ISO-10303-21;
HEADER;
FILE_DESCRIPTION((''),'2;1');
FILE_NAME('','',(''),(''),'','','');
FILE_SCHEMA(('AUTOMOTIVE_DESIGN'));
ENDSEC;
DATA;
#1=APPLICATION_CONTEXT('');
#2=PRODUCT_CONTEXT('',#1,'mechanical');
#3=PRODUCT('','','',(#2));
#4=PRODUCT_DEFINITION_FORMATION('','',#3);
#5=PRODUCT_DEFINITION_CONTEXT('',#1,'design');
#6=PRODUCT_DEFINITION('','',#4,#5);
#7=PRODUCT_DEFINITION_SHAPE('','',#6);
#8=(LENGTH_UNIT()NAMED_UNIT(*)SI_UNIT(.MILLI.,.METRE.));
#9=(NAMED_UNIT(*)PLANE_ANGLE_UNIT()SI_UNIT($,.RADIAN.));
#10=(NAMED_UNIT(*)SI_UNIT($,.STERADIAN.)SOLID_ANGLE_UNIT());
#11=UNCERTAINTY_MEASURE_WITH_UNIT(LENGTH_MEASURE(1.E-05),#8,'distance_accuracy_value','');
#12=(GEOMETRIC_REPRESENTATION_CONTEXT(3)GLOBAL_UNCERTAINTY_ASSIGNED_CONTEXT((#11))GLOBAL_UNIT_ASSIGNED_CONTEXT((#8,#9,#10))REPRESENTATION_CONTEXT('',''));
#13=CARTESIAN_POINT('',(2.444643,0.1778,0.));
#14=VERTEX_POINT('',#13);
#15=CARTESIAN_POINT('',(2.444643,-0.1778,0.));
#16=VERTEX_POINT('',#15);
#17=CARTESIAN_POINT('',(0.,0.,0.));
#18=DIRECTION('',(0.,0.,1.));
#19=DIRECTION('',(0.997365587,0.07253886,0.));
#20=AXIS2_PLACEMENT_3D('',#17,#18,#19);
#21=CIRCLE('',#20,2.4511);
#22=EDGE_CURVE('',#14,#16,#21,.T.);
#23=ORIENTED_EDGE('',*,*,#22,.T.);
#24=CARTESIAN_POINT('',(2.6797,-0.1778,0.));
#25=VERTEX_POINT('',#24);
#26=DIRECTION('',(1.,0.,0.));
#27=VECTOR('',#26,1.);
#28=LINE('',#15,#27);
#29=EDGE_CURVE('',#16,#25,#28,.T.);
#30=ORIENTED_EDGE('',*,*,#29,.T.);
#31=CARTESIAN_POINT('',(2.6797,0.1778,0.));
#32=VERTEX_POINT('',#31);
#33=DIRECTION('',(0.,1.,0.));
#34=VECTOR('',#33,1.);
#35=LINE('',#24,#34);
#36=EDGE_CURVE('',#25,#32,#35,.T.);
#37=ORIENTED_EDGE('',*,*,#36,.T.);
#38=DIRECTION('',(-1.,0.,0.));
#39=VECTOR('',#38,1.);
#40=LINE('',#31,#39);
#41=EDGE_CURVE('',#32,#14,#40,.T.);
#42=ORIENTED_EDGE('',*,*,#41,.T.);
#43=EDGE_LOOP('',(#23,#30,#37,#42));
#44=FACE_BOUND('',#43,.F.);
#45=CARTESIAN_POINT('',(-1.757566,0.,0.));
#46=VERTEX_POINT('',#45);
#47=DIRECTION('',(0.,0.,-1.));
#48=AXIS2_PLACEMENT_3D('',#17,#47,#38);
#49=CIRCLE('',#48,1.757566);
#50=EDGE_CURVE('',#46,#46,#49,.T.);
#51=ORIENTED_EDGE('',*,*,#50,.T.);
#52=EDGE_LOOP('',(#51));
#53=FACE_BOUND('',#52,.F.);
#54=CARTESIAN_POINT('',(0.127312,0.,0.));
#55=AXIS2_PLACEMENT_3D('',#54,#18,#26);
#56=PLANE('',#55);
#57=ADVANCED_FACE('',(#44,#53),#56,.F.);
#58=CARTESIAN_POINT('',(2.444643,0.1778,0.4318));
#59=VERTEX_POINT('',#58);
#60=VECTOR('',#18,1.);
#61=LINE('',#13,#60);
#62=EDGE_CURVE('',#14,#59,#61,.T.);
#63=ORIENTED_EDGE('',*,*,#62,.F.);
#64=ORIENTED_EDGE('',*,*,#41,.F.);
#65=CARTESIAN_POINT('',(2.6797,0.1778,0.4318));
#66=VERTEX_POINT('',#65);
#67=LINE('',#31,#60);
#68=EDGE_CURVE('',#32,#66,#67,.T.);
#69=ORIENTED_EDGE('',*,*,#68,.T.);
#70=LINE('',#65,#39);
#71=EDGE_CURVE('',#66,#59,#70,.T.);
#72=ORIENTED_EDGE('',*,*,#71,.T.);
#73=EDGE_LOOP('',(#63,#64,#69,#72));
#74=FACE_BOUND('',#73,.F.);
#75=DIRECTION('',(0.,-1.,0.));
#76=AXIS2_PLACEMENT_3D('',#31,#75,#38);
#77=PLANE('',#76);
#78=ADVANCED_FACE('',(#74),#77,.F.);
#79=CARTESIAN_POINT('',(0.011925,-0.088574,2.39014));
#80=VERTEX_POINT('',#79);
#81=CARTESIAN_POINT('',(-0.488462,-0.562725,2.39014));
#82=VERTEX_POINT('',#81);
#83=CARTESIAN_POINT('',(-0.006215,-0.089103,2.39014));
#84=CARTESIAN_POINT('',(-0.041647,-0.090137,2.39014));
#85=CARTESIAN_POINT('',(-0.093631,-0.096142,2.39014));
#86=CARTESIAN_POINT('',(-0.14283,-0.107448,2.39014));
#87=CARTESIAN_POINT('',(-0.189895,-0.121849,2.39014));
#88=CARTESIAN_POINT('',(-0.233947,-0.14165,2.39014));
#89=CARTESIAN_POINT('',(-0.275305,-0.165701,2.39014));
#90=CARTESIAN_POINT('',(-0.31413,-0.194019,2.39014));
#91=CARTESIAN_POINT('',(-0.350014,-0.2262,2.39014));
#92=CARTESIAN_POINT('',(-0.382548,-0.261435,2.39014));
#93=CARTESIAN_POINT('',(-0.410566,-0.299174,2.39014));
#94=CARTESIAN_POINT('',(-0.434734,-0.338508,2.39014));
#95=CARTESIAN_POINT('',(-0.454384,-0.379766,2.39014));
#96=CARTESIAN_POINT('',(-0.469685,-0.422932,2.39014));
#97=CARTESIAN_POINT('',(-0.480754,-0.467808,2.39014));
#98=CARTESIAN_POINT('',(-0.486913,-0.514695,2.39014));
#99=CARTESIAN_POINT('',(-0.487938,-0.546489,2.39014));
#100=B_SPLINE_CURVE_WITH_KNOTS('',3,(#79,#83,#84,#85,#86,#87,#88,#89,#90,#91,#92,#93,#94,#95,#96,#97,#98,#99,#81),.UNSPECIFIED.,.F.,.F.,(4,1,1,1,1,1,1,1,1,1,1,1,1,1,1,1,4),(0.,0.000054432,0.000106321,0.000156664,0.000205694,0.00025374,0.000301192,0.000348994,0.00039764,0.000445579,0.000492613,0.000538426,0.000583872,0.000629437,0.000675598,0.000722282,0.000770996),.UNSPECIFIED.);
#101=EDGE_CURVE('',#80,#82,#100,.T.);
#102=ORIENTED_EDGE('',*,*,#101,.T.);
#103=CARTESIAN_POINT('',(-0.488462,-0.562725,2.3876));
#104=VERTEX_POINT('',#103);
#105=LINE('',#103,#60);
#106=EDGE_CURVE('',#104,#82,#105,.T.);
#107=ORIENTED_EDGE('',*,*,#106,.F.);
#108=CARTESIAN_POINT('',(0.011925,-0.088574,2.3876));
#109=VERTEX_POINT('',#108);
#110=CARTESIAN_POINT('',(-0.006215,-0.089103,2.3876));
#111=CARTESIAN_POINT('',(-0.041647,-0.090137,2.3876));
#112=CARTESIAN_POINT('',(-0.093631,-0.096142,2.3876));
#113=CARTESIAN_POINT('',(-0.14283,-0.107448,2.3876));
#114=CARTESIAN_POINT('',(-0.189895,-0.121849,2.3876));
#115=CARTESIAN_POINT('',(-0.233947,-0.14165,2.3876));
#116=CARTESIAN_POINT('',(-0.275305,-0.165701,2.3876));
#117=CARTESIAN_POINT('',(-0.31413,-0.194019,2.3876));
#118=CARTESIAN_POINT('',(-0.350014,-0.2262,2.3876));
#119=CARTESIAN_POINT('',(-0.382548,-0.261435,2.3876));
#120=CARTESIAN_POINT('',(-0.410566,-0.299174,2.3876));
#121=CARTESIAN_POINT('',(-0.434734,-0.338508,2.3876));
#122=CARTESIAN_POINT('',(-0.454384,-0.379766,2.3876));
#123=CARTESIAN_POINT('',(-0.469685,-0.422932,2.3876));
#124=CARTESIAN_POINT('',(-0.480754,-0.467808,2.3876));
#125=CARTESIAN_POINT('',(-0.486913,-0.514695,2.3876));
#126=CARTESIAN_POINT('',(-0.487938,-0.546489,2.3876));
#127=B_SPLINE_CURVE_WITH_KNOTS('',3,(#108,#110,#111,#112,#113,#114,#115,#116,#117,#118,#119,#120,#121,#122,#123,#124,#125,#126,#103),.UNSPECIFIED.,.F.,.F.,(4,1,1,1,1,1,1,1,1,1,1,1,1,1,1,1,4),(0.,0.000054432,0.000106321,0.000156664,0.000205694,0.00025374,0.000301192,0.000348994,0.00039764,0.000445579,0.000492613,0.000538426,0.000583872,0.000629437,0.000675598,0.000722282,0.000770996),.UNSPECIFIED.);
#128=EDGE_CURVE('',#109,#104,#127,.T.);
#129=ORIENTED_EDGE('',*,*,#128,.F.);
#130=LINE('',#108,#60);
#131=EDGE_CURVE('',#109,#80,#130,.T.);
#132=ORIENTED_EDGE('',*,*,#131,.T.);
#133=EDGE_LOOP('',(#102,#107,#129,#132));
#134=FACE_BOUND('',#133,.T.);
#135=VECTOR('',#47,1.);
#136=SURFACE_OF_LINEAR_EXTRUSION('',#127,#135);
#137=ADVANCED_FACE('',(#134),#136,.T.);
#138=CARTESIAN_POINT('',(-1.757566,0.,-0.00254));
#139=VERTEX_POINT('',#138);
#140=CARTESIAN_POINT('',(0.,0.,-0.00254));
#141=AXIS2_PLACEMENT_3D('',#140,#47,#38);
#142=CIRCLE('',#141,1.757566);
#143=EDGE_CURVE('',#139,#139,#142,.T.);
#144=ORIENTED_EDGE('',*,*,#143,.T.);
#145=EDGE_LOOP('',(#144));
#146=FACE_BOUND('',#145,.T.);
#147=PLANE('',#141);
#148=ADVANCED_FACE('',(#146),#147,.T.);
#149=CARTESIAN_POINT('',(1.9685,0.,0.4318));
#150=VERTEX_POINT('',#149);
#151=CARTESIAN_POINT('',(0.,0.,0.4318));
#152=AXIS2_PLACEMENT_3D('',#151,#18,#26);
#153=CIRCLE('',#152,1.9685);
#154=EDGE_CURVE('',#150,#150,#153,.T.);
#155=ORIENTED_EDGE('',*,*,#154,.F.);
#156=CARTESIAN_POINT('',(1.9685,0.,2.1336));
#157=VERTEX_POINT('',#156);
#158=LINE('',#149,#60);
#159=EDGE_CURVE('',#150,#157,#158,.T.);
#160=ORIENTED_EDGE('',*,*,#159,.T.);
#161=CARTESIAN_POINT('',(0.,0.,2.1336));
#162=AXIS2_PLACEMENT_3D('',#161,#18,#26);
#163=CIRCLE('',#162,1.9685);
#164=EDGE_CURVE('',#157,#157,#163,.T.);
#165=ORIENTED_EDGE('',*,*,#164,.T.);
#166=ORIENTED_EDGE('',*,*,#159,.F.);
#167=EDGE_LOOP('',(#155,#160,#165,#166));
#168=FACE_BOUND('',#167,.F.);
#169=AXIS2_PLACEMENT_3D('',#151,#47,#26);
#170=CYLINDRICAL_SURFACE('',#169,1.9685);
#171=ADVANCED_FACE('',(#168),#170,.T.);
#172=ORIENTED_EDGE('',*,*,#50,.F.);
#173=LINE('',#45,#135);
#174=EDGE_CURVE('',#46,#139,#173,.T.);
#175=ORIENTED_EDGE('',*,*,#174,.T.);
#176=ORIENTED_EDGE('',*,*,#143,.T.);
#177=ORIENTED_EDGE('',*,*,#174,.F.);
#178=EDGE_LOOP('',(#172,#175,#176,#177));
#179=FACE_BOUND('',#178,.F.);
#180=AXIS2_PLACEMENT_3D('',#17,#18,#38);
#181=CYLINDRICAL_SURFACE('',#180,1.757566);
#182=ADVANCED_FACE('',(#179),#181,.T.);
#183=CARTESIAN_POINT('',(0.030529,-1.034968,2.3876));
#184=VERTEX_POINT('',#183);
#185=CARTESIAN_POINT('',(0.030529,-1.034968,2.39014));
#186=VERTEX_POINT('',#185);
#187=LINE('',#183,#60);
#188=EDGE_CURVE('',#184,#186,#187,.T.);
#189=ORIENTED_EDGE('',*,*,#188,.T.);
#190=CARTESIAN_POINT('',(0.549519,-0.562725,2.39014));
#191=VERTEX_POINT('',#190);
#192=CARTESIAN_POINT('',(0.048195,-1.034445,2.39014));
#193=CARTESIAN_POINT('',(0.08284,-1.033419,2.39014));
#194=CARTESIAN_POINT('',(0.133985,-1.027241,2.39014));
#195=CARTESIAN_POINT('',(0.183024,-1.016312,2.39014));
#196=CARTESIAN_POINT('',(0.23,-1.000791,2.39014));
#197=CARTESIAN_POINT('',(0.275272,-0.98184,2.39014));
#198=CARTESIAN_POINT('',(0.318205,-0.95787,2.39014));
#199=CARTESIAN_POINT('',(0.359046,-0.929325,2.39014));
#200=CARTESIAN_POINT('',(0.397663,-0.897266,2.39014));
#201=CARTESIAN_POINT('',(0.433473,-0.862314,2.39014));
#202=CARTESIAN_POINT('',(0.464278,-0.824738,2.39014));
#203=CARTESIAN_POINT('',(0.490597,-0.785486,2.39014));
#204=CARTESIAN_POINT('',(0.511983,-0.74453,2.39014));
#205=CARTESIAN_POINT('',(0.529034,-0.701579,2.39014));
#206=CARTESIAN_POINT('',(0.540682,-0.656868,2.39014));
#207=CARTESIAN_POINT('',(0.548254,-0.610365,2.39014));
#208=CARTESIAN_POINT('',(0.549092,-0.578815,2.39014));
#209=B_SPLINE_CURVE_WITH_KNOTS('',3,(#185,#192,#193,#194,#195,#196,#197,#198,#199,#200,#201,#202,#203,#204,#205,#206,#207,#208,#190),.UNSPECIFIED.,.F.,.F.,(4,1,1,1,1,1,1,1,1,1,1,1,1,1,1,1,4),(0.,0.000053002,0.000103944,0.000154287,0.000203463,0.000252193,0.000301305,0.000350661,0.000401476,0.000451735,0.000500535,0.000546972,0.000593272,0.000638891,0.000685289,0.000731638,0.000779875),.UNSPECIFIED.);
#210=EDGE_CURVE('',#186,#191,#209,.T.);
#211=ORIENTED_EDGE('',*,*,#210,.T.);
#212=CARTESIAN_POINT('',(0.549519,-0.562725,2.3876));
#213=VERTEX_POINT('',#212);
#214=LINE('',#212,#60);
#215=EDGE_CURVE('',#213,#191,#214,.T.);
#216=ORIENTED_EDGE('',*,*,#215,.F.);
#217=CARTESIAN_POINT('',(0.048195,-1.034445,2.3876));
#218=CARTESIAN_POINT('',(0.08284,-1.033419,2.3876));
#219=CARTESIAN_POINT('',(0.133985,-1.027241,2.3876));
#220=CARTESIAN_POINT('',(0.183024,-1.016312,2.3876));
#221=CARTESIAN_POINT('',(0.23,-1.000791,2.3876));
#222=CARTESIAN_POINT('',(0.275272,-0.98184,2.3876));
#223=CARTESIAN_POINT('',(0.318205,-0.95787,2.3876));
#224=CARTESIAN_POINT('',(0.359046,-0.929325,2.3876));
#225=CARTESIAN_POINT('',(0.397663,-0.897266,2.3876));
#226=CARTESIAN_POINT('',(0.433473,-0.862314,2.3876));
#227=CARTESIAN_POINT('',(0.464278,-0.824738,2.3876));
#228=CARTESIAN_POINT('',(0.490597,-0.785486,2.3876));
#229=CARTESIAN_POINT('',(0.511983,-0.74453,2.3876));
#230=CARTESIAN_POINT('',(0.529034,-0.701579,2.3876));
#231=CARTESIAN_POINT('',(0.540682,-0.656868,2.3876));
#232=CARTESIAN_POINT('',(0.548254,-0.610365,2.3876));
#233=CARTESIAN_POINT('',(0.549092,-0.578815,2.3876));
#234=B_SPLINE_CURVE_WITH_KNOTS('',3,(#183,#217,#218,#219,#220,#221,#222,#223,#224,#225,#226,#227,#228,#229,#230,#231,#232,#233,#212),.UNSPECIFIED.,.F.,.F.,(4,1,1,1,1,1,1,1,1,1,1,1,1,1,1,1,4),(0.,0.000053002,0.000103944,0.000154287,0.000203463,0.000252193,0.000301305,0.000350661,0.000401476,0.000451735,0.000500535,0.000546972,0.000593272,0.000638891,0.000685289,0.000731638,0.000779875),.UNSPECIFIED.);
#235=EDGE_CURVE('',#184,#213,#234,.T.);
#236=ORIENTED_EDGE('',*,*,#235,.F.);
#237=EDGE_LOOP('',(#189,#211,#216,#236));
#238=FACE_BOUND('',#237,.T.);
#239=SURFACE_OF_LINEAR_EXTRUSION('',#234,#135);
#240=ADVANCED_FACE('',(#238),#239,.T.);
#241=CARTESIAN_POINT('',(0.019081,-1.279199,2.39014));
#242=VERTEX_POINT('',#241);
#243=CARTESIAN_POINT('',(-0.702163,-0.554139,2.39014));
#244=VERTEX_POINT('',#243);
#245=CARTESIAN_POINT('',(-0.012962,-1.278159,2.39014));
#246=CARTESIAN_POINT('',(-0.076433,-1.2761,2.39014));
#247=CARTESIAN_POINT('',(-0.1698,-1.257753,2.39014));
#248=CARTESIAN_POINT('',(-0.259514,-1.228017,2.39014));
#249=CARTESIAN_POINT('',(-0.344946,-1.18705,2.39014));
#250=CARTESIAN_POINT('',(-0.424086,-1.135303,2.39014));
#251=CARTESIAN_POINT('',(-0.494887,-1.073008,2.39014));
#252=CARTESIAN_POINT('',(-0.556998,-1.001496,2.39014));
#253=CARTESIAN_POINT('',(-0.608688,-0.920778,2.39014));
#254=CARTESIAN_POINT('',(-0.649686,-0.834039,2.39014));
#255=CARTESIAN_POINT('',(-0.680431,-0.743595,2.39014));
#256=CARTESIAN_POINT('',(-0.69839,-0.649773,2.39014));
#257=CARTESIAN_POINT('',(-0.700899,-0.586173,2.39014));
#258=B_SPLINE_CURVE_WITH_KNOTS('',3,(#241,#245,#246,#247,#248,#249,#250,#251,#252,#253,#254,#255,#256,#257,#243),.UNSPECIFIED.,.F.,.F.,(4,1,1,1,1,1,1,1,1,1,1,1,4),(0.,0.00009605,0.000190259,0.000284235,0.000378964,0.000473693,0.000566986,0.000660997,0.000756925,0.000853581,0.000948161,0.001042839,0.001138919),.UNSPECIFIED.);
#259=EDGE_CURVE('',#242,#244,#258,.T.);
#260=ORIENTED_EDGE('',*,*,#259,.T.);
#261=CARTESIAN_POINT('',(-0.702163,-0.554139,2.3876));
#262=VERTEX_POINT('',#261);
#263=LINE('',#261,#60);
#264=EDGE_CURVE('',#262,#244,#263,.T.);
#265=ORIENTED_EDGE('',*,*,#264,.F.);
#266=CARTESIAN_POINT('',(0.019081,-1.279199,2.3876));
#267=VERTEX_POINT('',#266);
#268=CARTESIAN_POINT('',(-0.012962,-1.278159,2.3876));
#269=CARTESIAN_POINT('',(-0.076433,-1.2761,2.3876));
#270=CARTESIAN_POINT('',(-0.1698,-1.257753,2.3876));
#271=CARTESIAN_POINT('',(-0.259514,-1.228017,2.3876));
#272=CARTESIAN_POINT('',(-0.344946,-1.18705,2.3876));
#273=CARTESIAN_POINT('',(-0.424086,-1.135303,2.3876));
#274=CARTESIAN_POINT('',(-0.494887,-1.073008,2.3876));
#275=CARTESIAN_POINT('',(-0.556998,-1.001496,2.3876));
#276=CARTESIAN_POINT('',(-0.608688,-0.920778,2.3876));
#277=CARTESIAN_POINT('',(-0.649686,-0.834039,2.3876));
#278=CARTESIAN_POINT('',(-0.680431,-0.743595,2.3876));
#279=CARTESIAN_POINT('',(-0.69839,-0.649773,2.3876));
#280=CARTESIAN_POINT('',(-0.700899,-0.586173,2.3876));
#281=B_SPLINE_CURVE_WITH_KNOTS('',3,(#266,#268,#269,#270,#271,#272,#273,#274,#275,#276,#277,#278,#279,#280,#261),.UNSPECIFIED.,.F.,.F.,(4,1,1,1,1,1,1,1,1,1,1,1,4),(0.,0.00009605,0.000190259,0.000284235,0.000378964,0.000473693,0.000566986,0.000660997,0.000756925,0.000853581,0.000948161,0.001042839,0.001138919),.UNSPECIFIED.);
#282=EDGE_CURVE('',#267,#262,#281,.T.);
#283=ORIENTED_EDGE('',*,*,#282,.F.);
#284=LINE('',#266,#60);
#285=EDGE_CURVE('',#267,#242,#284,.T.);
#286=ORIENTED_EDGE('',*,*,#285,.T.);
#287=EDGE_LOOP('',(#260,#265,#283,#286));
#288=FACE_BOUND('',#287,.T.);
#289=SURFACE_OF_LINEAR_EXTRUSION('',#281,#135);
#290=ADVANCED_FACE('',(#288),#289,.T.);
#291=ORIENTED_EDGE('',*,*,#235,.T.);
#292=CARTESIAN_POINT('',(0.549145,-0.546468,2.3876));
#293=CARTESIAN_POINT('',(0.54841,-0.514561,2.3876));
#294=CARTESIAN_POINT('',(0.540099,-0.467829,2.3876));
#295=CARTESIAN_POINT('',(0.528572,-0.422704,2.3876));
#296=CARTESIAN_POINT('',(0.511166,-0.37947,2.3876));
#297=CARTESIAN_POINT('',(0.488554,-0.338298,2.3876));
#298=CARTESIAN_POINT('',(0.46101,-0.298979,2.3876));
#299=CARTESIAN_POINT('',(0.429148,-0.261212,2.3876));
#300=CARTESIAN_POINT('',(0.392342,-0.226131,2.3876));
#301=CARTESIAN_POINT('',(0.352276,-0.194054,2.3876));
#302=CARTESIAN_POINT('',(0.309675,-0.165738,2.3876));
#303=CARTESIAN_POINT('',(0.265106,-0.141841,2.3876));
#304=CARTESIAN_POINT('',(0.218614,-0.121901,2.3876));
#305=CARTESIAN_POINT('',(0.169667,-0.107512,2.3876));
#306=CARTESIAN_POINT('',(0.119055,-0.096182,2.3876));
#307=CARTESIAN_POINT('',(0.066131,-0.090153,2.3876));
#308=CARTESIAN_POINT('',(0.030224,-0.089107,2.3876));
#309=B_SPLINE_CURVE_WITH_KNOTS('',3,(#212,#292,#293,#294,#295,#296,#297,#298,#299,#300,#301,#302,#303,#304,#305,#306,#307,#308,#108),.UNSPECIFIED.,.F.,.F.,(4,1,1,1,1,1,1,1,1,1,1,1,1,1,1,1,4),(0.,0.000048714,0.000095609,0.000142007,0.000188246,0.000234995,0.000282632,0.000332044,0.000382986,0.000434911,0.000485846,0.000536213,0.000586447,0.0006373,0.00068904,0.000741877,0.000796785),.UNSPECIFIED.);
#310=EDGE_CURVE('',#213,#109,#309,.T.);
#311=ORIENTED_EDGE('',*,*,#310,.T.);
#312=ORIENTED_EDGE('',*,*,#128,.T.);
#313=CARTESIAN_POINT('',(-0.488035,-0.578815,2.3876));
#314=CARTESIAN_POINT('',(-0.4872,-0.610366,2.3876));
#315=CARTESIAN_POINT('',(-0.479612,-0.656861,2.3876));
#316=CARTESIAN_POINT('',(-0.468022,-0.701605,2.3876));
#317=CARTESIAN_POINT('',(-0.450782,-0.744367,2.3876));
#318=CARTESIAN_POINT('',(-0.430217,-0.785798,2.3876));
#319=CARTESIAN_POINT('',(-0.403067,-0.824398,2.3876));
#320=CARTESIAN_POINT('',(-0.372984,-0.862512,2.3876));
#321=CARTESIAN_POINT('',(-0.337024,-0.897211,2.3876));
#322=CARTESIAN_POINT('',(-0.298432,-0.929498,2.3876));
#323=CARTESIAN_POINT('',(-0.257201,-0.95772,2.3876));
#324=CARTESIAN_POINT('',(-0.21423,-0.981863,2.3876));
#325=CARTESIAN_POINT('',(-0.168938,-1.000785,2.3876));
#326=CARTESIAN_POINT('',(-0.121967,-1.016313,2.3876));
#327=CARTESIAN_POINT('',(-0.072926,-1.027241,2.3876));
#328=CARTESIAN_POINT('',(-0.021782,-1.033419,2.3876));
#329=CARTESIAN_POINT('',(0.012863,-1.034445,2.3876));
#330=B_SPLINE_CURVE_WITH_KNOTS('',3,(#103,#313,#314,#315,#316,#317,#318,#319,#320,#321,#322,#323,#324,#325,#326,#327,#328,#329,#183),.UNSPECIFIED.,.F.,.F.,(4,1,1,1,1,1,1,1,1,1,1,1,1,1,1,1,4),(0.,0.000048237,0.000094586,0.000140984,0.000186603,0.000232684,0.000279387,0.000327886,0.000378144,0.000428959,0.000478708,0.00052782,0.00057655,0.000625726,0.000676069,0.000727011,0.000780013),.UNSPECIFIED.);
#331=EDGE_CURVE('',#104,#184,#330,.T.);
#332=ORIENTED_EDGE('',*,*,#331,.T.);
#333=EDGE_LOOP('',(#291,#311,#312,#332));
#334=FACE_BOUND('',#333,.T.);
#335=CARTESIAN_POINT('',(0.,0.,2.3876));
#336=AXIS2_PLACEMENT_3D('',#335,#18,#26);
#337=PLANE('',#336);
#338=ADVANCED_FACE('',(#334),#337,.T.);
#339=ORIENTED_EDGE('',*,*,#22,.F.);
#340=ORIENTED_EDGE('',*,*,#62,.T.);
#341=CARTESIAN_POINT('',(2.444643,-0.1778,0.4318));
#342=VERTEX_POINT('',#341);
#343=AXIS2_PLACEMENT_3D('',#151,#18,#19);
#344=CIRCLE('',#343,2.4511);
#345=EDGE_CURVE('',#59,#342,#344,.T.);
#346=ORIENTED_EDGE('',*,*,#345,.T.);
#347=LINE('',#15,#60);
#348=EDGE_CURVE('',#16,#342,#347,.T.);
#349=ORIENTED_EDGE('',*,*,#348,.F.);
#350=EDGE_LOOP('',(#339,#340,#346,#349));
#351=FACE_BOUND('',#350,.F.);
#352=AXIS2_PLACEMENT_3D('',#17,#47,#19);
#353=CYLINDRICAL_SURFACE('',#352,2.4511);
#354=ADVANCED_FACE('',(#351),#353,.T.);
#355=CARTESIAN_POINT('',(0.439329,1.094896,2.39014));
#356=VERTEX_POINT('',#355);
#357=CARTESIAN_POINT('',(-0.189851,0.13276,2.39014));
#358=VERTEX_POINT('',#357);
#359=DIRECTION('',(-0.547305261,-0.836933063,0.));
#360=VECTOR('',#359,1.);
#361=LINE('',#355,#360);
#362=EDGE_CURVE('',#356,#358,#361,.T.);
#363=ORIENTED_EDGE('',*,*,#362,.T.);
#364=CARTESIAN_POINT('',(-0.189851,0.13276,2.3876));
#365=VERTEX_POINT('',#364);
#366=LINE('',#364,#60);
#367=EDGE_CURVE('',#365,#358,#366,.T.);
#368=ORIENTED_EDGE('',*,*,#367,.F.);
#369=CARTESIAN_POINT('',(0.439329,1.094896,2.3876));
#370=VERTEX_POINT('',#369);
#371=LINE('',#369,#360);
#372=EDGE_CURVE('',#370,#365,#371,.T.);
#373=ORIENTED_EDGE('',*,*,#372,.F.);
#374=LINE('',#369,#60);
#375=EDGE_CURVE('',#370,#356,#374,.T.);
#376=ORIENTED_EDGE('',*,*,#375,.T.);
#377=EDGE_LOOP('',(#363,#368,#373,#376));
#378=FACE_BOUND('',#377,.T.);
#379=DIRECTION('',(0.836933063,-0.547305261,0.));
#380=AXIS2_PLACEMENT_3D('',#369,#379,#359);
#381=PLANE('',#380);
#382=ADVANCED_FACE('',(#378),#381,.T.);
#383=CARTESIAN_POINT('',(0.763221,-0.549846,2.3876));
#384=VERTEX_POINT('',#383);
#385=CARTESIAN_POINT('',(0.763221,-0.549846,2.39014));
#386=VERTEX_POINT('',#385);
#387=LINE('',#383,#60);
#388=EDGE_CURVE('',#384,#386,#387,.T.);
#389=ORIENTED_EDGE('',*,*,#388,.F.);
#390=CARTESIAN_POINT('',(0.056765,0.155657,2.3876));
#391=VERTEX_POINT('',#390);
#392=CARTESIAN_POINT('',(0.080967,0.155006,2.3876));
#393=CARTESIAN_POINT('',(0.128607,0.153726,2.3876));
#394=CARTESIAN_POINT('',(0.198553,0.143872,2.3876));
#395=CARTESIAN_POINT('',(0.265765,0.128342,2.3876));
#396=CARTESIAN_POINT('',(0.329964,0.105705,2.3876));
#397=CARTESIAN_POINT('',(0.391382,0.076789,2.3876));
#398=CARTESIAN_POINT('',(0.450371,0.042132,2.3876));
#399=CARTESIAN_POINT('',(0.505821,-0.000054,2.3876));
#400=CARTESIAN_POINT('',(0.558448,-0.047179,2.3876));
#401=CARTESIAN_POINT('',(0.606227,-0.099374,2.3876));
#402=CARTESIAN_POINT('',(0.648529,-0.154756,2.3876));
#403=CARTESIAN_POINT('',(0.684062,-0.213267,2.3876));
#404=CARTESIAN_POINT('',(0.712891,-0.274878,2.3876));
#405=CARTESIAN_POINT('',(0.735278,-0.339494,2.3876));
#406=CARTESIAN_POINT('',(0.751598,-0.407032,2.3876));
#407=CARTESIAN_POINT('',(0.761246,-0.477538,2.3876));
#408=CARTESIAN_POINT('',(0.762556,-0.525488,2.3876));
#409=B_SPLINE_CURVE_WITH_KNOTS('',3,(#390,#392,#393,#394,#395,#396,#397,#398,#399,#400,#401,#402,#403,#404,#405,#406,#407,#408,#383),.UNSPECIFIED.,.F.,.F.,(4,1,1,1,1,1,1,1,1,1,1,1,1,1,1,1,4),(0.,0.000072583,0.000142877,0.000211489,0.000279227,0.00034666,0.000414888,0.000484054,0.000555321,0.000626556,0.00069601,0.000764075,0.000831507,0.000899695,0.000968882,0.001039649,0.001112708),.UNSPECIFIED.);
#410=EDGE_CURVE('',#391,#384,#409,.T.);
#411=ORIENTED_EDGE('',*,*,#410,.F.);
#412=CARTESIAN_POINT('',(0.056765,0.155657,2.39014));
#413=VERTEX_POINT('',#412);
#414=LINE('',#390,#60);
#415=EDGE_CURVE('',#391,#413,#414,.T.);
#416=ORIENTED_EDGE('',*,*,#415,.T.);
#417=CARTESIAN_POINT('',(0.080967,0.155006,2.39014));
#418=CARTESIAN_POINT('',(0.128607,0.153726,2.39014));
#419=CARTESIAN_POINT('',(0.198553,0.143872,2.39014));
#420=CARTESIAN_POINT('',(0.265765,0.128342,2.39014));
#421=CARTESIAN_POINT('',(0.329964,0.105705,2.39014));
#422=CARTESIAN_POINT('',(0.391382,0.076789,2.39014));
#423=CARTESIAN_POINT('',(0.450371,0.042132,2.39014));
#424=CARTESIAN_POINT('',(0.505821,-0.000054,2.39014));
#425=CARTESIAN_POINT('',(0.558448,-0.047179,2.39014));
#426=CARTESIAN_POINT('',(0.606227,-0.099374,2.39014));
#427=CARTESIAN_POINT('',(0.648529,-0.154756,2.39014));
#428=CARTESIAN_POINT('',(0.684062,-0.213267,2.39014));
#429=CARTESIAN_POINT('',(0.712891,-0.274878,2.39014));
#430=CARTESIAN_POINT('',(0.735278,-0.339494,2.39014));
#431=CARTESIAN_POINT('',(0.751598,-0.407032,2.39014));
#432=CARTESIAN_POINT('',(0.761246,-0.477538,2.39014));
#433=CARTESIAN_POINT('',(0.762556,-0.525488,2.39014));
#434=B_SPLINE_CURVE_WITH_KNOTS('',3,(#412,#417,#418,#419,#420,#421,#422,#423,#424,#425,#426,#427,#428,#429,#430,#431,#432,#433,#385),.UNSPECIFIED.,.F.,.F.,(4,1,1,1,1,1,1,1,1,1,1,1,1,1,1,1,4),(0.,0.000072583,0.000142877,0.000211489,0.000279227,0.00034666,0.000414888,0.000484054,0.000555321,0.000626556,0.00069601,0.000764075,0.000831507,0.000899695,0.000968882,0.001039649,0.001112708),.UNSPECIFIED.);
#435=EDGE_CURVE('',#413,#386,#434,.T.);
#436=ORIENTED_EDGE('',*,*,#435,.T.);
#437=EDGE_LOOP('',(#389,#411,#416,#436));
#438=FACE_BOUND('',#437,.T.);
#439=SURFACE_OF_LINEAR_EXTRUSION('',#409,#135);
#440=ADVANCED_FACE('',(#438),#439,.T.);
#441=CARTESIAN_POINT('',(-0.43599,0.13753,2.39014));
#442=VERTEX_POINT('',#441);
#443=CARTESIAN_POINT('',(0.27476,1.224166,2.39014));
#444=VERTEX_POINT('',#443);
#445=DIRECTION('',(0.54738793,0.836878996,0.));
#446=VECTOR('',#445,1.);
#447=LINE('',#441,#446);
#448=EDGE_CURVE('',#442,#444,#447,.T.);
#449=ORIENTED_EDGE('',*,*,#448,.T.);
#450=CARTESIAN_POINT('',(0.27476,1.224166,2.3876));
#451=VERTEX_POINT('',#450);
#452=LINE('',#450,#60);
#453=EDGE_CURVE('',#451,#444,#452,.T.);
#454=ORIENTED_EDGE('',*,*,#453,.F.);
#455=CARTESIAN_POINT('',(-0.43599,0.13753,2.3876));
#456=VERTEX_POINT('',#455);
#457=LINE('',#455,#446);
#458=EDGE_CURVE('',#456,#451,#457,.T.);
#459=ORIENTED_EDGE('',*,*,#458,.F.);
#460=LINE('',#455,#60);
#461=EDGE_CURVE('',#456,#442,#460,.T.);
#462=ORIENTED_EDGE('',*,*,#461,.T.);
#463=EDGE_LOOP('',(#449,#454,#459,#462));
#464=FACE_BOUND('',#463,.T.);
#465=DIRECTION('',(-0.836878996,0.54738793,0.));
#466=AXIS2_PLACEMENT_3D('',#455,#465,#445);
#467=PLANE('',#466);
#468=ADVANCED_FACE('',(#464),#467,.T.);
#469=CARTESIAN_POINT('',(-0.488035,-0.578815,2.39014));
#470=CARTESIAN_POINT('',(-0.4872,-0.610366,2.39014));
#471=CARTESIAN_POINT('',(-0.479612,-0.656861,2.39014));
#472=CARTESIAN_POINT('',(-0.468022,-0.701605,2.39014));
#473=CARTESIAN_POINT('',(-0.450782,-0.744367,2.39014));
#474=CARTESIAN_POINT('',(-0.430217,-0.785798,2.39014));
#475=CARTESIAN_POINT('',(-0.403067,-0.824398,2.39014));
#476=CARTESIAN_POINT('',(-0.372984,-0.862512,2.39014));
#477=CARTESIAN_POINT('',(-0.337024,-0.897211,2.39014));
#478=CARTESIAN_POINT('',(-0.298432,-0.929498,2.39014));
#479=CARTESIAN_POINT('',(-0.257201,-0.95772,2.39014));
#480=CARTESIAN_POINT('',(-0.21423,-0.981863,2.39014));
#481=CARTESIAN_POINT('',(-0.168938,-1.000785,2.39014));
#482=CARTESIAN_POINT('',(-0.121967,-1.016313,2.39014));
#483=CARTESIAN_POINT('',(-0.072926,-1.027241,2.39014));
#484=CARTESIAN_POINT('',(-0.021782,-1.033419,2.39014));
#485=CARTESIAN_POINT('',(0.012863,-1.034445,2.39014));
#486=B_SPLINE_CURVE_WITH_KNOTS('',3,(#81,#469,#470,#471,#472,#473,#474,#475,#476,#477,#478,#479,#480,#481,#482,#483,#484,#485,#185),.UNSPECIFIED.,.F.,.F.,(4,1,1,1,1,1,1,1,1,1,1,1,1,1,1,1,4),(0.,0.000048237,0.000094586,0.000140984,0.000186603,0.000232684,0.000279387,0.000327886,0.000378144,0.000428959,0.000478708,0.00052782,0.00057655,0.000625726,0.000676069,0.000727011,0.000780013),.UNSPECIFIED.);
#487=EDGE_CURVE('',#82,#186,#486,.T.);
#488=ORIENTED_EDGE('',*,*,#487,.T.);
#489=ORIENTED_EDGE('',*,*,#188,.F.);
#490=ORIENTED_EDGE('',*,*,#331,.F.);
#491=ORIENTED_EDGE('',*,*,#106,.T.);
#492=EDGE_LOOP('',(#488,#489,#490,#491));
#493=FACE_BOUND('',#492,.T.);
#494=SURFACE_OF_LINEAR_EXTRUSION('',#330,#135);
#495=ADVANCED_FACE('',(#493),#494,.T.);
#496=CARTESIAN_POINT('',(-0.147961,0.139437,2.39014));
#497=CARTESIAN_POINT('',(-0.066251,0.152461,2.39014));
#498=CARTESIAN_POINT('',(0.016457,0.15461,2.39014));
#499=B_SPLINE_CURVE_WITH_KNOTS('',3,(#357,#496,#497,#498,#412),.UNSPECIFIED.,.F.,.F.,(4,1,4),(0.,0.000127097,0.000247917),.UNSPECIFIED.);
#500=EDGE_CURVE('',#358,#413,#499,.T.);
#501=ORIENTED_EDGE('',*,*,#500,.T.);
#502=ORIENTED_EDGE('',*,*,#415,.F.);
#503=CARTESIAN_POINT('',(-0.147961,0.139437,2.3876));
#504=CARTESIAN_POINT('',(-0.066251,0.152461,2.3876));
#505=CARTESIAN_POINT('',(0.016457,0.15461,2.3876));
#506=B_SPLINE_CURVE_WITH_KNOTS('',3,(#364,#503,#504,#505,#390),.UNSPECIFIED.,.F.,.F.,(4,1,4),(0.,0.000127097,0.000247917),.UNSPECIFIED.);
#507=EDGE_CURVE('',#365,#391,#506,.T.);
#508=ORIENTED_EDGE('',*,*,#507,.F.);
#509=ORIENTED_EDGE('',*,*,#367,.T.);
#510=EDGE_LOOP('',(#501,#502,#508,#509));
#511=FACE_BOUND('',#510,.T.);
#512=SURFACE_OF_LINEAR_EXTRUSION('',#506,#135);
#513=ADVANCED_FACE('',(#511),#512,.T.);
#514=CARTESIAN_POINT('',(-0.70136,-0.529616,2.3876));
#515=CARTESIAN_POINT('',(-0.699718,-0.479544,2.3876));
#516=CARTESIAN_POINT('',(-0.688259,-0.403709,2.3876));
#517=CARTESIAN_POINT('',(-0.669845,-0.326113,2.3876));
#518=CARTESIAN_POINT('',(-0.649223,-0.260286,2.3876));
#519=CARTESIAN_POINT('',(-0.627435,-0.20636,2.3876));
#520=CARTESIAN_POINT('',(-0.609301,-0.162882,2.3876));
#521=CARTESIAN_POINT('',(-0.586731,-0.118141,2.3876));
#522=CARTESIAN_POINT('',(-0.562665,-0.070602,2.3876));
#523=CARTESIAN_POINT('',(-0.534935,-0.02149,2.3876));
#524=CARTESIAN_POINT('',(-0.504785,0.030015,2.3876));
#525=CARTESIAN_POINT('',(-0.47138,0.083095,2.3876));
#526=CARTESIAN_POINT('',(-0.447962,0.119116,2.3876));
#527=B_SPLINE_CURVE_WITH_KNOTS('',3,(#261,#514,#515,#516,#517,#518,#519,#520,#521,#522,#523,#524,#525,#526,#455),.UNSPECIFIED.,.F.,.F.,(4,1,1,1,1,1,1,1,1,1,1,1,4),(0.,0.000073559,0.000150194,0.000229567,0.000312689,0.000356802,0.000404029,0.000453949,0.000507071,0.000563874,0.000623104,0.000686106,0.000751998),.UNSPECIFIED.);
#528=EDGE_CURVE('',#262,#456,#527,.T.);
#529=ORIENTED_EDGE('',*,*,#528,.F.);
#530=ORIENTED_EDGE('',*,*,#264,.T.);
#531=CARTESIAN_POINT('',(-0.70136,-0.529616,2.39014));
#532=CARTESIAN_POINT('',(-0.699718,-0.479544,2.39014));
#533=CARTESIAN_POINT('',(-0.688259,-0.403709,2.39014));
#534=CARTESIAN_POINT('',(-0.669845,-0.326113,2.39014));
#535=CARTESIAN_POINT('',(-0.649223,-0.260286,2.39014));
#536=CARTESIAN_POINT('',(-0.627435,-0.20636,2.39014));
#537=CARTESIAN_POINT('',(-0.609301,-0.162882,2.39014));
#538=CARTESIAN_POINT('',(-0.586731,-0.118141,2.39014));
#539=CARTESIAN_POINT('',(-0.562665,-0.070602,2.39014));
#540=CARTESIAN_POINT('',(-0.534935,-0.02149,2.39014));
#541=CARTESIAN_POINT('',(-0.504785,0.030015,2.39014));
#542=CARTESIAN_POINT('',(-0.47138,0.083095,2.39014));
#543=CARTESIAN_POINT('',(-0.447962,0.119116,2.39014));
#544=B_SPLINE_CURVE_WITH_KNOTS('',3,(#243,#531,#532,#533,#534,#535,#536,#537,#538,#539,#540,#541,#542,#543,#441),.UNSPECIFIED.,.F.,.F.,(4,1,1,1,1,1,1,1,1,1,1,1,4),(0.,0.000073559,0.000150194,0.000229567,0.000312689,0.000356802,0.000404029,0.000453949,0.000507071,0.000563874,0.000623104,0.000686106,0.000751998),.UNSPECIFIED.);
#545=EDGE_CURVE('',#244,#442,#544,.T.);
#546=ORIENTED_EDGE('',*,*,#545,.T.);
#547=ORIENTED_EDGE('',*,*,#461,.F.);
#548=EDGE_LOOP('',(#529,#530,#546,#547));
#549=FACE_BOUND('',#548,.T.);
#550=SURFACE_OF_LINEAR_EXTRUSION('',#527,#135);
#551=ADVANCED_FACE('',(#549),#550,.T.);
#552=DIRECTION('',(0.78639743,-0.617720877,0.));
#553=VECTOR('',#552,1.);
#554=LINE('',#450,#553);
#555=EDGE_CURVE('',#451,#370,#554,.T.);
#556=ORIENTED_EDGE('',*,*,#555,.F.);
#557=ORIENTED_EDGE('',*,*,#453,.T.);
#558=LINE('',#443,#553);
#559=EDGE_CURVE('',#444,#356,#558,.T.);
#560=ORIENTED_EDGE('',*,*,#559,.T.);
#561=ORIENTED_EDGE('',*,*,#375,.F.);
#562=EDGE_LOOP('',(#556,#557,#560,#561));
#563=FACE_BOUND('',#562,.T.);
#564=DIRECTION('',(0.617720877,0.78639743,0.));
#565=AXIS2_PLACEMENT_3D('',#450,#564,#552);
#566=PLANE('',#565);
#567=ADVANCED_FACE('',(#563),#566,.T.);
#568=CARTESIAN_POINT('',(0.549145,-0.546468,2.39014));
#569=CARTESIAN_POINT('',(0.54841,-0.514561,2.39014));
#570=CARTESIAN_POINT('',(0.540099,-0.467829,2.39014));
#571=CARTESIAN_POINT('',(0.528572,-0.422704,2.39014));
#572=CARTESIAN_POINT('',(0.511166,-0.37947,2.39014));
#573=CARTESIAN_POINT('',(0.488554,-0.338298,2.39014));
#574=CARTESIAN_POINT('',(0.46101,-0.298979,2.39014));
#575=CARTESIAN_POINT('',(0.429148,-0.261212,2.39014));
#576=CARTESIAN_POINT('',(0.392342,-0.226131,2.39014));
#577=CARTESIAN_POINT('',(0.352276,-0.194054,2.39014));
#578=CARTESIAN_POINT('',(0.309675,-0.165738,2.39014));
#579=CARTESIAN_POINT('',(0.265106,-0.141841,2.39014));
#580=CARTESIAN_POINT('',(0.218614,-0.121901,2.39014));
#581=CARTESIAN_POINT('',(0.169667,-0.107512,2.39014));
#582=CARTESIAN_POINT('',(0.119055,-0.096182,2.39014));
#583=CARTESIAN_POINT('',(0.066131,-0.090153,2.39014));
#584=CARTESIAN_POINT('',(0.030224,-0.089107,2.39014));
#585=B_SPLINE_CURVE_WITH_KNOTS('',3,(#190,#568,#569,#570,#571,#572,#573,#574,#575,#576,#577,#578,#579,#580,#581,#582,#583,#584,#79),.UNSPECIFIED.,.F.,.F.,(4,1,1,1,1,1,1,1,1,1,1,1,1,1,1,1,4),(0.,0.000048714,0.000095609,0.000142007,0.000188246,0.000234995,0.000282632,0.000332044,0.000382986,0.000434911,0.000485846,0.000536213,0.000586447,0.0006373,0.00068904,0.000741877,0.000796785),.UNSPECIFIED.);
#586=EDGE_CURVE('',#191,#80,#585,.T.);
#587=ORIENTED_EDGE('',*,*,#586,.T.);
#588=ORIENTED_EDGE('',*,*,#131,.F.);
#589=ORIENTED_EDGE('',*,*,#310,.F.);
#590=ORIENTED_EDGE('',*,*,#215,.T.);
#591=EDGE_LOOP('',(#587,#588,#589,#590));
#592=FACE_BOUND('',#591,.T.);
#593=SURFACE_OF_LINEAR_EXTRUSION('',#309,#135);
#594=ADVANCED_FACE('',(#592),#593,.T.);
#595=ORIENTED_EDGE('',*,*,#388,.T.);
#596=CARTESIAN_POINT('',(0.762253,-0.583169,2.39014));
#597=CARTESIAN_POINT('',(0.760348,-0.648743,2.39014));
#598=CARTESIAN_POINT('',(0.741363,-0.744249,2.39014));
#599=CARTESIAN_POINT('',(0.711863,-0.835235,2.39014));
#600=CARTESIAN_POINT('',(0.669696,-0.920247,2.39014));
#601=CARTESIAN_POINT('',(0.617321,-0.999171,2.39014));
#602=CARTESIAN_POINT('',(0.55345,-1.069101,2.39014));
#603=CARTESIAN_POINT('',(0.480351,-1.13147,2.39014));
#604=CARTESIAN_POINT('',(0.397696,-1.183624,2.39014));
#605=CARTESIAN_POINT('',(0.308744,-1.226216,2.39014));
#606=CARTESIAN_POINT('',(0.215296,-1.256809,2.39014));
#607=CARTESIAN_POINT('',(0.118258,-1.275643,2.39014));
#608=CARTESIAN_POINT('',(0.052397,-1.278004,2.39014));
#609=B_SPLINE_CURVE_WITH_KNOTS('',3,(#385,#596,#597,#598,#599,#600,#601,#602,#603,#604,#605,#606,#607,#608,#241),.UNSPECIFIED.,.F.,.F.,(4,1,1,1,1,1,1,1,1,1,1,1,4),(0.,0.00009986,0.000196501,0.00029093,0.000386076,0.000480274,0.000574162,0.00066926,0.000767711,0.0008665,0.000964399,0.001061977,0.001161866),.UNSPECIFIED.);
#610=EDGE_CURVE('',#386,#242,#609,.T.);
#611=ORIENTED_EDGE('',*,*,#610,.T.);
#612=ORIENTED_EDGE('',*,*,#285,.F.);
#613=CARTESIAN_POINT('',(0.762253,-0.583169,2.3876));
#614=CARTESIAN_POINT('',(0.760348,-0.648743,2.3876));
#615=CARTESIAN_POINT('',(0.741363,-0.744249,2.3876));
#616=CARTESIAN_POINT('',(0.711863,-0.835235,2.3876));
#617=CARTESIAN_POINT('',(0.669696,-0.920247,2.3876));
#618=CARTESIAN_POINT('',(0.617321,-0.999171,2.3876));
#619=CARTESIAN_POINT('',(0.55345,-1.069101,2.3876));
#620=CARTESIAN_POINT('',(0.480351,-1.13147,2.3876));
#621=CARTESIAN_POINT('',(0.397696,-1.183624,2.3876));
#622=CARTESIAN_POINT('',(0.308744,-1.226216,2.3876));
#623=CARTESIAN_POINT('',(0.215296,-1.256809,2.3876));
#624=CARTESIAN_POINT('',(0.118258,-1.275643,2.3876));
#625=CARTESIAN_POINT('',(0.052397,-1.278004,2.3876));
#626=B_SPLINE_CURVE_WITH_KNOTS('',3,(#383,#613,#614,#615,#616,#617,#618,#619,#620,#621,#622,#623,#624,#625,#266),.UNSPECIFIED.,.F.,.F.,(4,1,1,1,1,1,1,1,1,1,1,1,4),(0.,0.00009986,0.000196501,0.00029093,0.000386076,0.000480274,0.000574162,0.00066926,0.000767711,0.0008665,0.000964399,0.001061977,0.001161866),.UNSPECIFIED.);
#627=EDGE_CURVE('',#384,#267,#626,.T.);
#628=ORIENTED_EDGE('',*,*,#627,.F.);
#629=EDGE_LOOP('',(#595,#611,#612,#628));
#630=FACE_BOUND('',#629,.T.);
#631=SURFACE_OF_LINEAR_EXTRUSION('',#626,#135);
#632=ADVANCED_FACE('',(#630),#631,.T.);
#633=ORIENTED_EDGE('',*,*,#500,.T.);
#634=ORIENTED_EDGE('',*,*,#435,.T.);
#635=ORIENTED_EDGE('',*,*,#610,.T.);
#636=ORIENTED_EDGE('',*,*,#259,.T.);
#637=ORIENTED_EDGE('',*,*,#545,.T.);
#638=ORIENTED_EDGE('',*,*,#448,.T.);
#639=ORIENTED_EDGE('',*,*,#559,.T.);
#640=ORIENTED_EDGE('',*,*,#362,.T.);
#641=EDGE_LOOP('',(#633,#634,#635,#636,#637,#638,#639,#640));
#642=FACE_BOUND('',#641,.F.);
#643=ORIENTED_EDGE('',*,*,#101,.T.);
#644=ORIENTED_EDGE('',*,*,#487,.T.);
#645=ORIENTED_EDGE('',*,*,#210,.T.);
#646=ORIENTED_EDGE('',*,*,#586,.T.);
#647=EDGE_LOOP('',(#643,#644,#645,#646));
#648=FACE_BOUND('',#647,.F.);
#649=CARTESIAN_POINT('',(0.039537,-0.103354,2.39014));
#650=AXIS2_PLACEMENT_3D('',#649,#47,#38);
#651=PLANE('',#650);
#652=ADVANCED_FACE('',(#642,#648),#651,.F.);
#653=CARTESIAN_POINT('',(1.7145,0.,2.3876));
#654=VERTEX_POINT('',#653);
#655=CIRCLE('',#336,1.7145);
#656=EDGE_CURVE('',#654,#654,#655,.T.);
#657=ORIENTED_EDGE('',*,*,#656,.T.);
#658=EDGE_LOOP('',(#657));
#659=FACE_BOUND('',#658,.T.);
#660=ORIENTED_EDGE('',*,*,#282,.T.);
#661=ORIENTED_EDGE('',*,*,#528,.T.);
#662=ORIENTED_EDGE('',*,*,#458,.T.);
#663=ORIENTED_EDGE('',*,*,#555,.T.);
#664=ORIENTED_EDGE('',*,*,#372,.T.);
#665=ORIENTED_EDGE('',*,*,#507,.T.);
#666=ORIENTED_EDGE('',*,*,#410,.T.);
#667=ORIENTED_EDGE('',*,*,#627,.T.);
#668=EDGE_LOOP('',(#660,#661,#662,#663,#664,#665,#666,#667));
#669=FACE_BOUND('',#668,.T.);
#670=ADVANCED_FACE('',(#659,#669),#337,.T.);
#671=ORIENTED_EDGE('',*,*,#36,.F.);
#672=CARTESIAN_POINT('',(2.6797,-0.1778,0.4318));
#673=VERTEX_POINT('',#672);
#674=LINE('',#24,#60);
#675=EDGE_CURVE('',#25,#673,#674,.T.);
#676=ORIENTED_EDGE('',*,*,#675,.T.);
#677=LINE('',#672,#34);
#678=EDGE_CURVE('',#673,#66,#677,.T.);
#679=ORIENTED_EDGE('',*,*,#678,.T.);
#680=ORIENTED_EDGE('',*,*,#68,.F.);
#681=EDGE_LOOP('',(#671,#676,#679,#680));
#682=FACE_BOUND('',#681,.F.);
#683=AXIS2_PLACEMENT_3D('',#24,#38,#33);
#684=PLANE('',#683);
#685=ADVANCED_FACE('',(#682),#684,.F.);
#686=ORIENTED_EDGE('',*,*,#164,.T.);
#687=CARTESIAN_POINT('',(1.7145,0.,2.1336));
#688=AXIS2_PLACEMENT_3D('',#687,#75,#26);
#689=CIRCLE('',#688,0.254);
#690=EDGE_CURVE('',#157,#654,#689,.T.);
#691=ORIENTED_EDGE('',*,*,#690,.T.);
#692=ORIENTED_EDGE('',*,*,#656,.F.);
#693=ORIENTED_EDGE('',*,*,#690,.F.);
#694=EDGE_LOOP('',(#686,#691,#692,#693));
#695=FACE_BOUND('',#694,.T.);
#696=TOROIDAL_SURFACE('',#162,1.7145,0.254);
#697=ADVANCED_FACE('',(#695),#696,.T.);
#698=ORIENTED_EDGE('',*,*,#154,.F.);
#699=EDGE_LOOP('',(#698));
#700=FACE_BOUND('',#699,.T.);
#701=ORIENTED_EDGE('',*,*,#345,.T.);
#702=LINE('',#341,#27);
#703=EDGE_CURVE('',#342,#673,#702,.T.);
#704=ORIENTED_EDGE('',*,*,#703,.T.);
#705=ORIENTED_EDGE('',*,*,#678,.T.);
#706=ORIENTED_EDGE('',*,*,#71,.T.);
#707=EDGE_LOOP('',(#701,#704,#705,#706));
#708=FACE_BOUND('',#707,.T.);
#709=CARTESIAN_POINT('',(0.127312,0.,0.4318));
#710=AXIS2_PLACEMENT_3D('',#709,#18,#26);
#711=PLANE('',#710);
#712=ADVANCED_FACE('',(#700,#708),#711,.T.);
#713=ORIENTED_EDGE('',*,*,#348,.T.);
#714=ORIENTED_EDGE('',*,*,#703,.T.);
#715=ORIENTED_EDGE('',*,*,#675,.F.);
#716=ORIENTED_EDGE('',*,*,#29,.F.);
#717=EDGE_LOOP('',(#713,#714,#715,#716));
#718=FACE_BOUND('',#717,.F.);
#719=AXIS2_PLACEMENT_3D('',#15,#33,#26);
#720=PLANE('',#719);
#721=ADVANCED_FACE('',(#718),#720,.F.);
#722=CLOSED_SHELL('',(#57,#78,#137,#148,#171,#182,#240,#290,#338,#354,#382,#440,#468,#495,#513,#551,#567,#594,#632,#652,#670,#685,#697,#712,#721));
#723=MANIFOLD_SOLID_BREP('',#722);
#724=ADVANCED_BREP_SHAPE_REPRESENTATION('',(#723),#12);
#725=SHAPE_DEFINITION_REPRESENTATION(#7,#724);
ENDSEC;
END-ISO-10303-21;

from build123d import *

# Parameters (mm, degrees)
BOSS_EXTRUDE1_DEPTH = 0.4318
SKETCH2_R           = 1.9685
BOSS_EXTRUDE2_DEPTH = 1.9558
SKETCH3_R           = 1.757566481
BOSS_EXTRUDE3_DEPTH = 0.00254
FILLET1_R           = 0.254
BOSS_EXTRUDE6_DEPTH = 0.00254


with BuildPart() as part:
    # Sketch1 → Boss-Extrude1 (new body)
    with BuildSketch(Plane.XY):
        with BuildLine():
            Line((2.6797, 0.1778), (2.4511, 0.1778))
            Line((2.4511, 0.1778), (2.44464279, 0.1778))
            ThreePointArc((2.44464279, 0.1778), (-2.4511, 0), (2.44464279, -0.1778))
            Line((2.44464279, -0.1778), (2.4511, -0.1778))
            Line((2.4511, -0.1778), (2.6797, -0.1778))
            Line((2.6797, -0.1778), (2.6797, 0.1778))
        make_face()
    extrude(amount=BOSS_EXTRUDE1_DEPTH)

    # Sketch2 → Boss-Extrude2 (add)
    with BuildSketch(Plane.XY.offset(0.4318)):
        Circle(SKETCH2_R)
    extrude(amount=BOSS_EXTRUDE2_DEPTH)

    # Sketch3 → Boss-Extrude3 (add)
    with BuildSketch(Plane(origin=(0, 0, 0), x_dir=(-1, 0, 0), z_dir=(0, 0, -1))):
        Circle(SKETCH3_R)
    extrude(amount=BOSS_EXTRUDE3_DEPTH)

    # Fillet1
    fillet1_edges = [part.edges().sort_by_distance(p)[0] for p in [
        (-1.9685, 0, 2.3876),
    ]]
    fillet(fillet1_edges, radius=FILLET1_R)

    # Sketch4 → Boss-Extrude6 (add)
    with BuildSketch(Plane.XY.offset(2.3876)):
        with BuildLine():
            Line((0.274759615, 1.224166485), (0.439329177, 1.094895902))
            Line((0.439329177, 1.094895902), (-0.189851262, 0.132760235))
            add(Edge.make_bspline(
                [(-0.189851262, 0.132760235), (-0.147961484, 0.139437166), (-0.066250736, 0.152461273), (0.016457491, 0.154609804), (0.056764573, 0.15565687)],
                knots=[0, 0, 0, 0, 0.000127097, 0.000247917, 0.000247917, 0.000247917, 0.000247917], degree=3))
            add(Edge.make_bspline(
                [(0.056764573, 0.15565687), (0.080966575, 0.155006373), (0.128607496, 0.153725888), (0.198552838, 0.143871696), (0.265764596, 0.128342469), (0.329964193, 0.105705452), (0.391382061, 0.076788671), (0.450370656, 0.042132047), (0.505821131, -5.3961e-05), (0.558447558, -0.047178868), (0.606227065, -0.099373816), (0.648528989, -0.154755797), (0.684061859, -0.213267111), (0.71289126, -0.274878122), (0.735278329, -0.339493857), (0.751598495, -0.407031645), (0.761245682, -0.477538057), (0.762555703, -0.525488387), (0.763221154, -0.549845684)],
                knots=[0, 0, 0, 0, 7.2583e-05, 0.000142877, 0.000211489, 0.000279227, 0.00034666, 0.000414888, 0.000484054, 0.000555321, 0.000626556, 0.00069601, 0.000764075, 0.000831507, 0.000899695, 0.000968882, 0.001039649, 0.001112708, 0.001112708, 0.001112708, 0.001112708], degree=3))
            add(Edge.make_bspline(
                [(0.763221154, -0.549845684), (0.762252934, -0.583169376), (0.760347707, -0.648742514), (0.74136316, -0.744248809), (0.711863116, -0.835234681), (0.669696262, -0.920247464), (0.617320748, -0.99917064), (0.553450457, -1.069101466), (0.480350513, -1.131469831), (0.397696102, -1.183623709), (0.308744192, -1.226216142), (0.21529578, -1.256808566), (0.118258382, -1.275643212), (0.052396675, -1.278004461), (0.019080529, -1.279198899)],
                knots=[0, 0, 0, 0, 9.986e-05, 0.000196501, 0.00029093, 0.000386076, 0.000480274, 0.000574162, 0.00066926, 0.000767711, 0.0008665, 0.000964399, 0.001061977, 0.001161866, 0.001161866, 0.001161866, 0.001161866], degree=3))
            add(Edge.make_bspline(
                [(0.019080529, -1.279198899), (-0.012962048, -1.278159174), (-0.076432782, -1.276099659), (-0.169800094, -1.257753191), (-0.25951404, -1.228016751), (-0.344946065, -1.187049536), (-0.424085625, -1.135303013), (-0.494887424, -1.073007962), (-0.556998435, -1.001495987), (-0.608688311, -0.920778179), (-0.649685769, -0.834039476), (-0.680431058, -0.743594732), (-0.69838993, -0.649773494), (-0.700899466, -0.586172933), (-0.702163462, -0.554138803)],
                knots=[0, 0, 0, 0, 9.605e-05, 0.000190259, 0.000284235, 0.000378964, 0.000473693, 0.000566986, 0.000660997, 0.000756925, 0.000853581, 0.000948161, 0.001042839, 0.001138919, 0.001138919, 0.001138919, 0.001138919], degree=3))
            add(Edge.make_bspline(
                [(-0.702163462, -0.554138803), (-0.701359657, -0.529615613), (-0.699718442, -0.479543946), (-0.688258921, -0.403708598), (-0.669845194, -0.32611313), (-0.649223402, -0.260285723), (-0.627434549, -0.206359581), (-0.609301303, -0.162882384), (-0.586731138, -0.118141369), (-0.562664606, -0.070602341), (-0.534935379, -0.021490466), (-0.50478491, 0.030015066), (-0.471379612, 0.08309512), (-0.447961608, 0.119116082), (-0.435990084, 0.137530368)],
                knots=[0, 0, 0, 0, 7.3559e-05, 0.000150194, 0.000229567, 0.000312689, 0.000356802, 0.000404029, 0.000453949, 0.000507071, 0.000563874, 0.000623104, 0.000686106, 0.000751998, 0.000751998, 0.000751998, 0.000751998], degree=3))
            Line((-0.435990084, 0.137530368), (0.274759615, 1.224166485))
        make_face()
        with BuildLine():
            add(Edge.make_bspline(
                [(0.011925331, -0.088573899), (-0.006214518, -0.089103247), (-0.041646912, -0.090137216), (-0.093631243, -0.09614154), (-0.14283008, -0.10744844), (-0.189895237, -0.121849105), (-0.233946799, -0.141649579), (-0.27530492, -0.165701428), (-0.314129536, -0.194018694), (-0.350013988, -0.226200207), (-0.382548438, -0.261434565), (-0.410566314, -0.299173651), (-0.434734233, -0.338507957), (-0.454384185, -0.379766135), (-0.469685468, -0.422932414), (-0.480753689, -0.467808261), (-0.486913473, -0.514694601), (-0.487938249, -0.546489393), (-0.488461538, -0.562725041)],
                knots=[0, 0, 0, 0, 5.4432e-05, 0.000106321, 0.000156664, 0.000205694, 0.00025374, 0.000301192, 0.000348994, 0.00039764, 0.000445579, 0.000492613, 0.000538426, 0.000583872, 0.000629437, 0.000675598, 0.000722282, 0.000770996, 0.000770996, 0.000770996, 0.000770996], degree=3))
            add(Edge.make_bspline(
                [(-0.488461538, -0.562725041), (-0.488035389, -0.578815474), (-0.487199773, -0.610366417), (-0.479612213, -0.656861466), (-0.468022273, -0.701605091), (-0.450781753, -0.744366625), (-0.430216674, -0.78579787), (-0.403066802, -0.824398127), (-0.372983596, -0.862511782), (-0.337024045, -0.897210997), (-0.298431899, -0.92949845), (-0.257201438, -0.957719837), (-0.214230109, -0.981863109), (-0.168937766, -1.000784588), (-0.121967008, -1.016313254), (-0.072926489, -1.027240796), (-0.021782099, -1.033418797), (0.012863005, -1.034444907), (0.030528846, -1.03496813)],
                knots=[0, 0, 0, 0, 4.8237e-05, 9.4586e-05, 0.000140984, 0.000186603, 0.000232684, 0.000279387, 0.000327886, 0.000378144, 0.000428959, 0.000478708, 0.00052782, 0.00057655, 0.000625726, 0.000676069, 0.000727011, 0.000780013, 0.000780013, 0.000780013, 0.000780013], degree=3))
            add(Edge.make_bspline(
                [(0.030528846, -1.03496813), (0.048194659, -1.034444866), (0.082839706, -1.033418676), (0.133984507, -1.027241258), (0.183023506, -1.01631156), (0.229999791, -1.000790729), (0.275271729, -0.981840327), (0.318205477, -0.957870038), (0.359046019, -0.929324894), (0.397663498, -0.897266174), (0.433473374, -0.862314287), (0.464278094, -0.824738351), (0.490596508, -0.785485897), (0.511982982, -0.744529833), (0.529033611, -0.701579235), (0.540682323, -0.656868393), (0.548254214, -0.610364604), (0.549091983, -0.578814861), (0.549519231, -0.562725041)],
                knots=[0, 0, 0, 0, 5.3002e-05, 0.000103944, 0.000154287, 0.000203463, 0.000252193, 0.000301305, 0.000350661, 0.000401476, 0.000451735, 0.000500535, 0.000546972, 0.000593272, 0.000638891, 0.000685289, 0.000731638, 0.000779875, 0.000779875, 0.000779875, 0.000779875], degree=3))
            add(Edge.make_bspline(
                [(0.549519231, -0.562725041), (0.549144835, -0.546468213), (0.548410018, -0.514561346), (0.54009881, -0.467829234), (0.528571945, -0.422704406), (0.511166347, -0.379470466), (0.488553627, -0.338298022), (0.461010451, -0.298979094), (0.429147578, -0.261212233), (0.39234193, -0.226131108), (0.352275539, -0.194054256), (0.309674578, -0.165738094), (0.26510576, -0.141840565), (0.218614275, -0.121901269), (0.16966742, -0.107512073), (0.119055422, -0.09618192), (0.066130955, -0.090152583), (0.030224013, -0.08910683), (0.011925331, -0.088573899)],
                knots=[0, 0, 0, 0, 4.8714e-05, 9.5609e-05, 0.000142007, 0.000188246, 0.000234995, 0.000282632, 0.000332044, 0.000382986, 0.000434911, 0.000485846, 0.000536213, 0.000586447, 0.0006373, 0.00068904, 0.000741877, 0.000796785, 0.000796785, 0.000796785, 0.000796785], degree=3))
        make_face(mode=Mode.SUBTRACT)
    extrude(amount=BOSS_EXTRUDE6_DEPTH)


solid = part.part
